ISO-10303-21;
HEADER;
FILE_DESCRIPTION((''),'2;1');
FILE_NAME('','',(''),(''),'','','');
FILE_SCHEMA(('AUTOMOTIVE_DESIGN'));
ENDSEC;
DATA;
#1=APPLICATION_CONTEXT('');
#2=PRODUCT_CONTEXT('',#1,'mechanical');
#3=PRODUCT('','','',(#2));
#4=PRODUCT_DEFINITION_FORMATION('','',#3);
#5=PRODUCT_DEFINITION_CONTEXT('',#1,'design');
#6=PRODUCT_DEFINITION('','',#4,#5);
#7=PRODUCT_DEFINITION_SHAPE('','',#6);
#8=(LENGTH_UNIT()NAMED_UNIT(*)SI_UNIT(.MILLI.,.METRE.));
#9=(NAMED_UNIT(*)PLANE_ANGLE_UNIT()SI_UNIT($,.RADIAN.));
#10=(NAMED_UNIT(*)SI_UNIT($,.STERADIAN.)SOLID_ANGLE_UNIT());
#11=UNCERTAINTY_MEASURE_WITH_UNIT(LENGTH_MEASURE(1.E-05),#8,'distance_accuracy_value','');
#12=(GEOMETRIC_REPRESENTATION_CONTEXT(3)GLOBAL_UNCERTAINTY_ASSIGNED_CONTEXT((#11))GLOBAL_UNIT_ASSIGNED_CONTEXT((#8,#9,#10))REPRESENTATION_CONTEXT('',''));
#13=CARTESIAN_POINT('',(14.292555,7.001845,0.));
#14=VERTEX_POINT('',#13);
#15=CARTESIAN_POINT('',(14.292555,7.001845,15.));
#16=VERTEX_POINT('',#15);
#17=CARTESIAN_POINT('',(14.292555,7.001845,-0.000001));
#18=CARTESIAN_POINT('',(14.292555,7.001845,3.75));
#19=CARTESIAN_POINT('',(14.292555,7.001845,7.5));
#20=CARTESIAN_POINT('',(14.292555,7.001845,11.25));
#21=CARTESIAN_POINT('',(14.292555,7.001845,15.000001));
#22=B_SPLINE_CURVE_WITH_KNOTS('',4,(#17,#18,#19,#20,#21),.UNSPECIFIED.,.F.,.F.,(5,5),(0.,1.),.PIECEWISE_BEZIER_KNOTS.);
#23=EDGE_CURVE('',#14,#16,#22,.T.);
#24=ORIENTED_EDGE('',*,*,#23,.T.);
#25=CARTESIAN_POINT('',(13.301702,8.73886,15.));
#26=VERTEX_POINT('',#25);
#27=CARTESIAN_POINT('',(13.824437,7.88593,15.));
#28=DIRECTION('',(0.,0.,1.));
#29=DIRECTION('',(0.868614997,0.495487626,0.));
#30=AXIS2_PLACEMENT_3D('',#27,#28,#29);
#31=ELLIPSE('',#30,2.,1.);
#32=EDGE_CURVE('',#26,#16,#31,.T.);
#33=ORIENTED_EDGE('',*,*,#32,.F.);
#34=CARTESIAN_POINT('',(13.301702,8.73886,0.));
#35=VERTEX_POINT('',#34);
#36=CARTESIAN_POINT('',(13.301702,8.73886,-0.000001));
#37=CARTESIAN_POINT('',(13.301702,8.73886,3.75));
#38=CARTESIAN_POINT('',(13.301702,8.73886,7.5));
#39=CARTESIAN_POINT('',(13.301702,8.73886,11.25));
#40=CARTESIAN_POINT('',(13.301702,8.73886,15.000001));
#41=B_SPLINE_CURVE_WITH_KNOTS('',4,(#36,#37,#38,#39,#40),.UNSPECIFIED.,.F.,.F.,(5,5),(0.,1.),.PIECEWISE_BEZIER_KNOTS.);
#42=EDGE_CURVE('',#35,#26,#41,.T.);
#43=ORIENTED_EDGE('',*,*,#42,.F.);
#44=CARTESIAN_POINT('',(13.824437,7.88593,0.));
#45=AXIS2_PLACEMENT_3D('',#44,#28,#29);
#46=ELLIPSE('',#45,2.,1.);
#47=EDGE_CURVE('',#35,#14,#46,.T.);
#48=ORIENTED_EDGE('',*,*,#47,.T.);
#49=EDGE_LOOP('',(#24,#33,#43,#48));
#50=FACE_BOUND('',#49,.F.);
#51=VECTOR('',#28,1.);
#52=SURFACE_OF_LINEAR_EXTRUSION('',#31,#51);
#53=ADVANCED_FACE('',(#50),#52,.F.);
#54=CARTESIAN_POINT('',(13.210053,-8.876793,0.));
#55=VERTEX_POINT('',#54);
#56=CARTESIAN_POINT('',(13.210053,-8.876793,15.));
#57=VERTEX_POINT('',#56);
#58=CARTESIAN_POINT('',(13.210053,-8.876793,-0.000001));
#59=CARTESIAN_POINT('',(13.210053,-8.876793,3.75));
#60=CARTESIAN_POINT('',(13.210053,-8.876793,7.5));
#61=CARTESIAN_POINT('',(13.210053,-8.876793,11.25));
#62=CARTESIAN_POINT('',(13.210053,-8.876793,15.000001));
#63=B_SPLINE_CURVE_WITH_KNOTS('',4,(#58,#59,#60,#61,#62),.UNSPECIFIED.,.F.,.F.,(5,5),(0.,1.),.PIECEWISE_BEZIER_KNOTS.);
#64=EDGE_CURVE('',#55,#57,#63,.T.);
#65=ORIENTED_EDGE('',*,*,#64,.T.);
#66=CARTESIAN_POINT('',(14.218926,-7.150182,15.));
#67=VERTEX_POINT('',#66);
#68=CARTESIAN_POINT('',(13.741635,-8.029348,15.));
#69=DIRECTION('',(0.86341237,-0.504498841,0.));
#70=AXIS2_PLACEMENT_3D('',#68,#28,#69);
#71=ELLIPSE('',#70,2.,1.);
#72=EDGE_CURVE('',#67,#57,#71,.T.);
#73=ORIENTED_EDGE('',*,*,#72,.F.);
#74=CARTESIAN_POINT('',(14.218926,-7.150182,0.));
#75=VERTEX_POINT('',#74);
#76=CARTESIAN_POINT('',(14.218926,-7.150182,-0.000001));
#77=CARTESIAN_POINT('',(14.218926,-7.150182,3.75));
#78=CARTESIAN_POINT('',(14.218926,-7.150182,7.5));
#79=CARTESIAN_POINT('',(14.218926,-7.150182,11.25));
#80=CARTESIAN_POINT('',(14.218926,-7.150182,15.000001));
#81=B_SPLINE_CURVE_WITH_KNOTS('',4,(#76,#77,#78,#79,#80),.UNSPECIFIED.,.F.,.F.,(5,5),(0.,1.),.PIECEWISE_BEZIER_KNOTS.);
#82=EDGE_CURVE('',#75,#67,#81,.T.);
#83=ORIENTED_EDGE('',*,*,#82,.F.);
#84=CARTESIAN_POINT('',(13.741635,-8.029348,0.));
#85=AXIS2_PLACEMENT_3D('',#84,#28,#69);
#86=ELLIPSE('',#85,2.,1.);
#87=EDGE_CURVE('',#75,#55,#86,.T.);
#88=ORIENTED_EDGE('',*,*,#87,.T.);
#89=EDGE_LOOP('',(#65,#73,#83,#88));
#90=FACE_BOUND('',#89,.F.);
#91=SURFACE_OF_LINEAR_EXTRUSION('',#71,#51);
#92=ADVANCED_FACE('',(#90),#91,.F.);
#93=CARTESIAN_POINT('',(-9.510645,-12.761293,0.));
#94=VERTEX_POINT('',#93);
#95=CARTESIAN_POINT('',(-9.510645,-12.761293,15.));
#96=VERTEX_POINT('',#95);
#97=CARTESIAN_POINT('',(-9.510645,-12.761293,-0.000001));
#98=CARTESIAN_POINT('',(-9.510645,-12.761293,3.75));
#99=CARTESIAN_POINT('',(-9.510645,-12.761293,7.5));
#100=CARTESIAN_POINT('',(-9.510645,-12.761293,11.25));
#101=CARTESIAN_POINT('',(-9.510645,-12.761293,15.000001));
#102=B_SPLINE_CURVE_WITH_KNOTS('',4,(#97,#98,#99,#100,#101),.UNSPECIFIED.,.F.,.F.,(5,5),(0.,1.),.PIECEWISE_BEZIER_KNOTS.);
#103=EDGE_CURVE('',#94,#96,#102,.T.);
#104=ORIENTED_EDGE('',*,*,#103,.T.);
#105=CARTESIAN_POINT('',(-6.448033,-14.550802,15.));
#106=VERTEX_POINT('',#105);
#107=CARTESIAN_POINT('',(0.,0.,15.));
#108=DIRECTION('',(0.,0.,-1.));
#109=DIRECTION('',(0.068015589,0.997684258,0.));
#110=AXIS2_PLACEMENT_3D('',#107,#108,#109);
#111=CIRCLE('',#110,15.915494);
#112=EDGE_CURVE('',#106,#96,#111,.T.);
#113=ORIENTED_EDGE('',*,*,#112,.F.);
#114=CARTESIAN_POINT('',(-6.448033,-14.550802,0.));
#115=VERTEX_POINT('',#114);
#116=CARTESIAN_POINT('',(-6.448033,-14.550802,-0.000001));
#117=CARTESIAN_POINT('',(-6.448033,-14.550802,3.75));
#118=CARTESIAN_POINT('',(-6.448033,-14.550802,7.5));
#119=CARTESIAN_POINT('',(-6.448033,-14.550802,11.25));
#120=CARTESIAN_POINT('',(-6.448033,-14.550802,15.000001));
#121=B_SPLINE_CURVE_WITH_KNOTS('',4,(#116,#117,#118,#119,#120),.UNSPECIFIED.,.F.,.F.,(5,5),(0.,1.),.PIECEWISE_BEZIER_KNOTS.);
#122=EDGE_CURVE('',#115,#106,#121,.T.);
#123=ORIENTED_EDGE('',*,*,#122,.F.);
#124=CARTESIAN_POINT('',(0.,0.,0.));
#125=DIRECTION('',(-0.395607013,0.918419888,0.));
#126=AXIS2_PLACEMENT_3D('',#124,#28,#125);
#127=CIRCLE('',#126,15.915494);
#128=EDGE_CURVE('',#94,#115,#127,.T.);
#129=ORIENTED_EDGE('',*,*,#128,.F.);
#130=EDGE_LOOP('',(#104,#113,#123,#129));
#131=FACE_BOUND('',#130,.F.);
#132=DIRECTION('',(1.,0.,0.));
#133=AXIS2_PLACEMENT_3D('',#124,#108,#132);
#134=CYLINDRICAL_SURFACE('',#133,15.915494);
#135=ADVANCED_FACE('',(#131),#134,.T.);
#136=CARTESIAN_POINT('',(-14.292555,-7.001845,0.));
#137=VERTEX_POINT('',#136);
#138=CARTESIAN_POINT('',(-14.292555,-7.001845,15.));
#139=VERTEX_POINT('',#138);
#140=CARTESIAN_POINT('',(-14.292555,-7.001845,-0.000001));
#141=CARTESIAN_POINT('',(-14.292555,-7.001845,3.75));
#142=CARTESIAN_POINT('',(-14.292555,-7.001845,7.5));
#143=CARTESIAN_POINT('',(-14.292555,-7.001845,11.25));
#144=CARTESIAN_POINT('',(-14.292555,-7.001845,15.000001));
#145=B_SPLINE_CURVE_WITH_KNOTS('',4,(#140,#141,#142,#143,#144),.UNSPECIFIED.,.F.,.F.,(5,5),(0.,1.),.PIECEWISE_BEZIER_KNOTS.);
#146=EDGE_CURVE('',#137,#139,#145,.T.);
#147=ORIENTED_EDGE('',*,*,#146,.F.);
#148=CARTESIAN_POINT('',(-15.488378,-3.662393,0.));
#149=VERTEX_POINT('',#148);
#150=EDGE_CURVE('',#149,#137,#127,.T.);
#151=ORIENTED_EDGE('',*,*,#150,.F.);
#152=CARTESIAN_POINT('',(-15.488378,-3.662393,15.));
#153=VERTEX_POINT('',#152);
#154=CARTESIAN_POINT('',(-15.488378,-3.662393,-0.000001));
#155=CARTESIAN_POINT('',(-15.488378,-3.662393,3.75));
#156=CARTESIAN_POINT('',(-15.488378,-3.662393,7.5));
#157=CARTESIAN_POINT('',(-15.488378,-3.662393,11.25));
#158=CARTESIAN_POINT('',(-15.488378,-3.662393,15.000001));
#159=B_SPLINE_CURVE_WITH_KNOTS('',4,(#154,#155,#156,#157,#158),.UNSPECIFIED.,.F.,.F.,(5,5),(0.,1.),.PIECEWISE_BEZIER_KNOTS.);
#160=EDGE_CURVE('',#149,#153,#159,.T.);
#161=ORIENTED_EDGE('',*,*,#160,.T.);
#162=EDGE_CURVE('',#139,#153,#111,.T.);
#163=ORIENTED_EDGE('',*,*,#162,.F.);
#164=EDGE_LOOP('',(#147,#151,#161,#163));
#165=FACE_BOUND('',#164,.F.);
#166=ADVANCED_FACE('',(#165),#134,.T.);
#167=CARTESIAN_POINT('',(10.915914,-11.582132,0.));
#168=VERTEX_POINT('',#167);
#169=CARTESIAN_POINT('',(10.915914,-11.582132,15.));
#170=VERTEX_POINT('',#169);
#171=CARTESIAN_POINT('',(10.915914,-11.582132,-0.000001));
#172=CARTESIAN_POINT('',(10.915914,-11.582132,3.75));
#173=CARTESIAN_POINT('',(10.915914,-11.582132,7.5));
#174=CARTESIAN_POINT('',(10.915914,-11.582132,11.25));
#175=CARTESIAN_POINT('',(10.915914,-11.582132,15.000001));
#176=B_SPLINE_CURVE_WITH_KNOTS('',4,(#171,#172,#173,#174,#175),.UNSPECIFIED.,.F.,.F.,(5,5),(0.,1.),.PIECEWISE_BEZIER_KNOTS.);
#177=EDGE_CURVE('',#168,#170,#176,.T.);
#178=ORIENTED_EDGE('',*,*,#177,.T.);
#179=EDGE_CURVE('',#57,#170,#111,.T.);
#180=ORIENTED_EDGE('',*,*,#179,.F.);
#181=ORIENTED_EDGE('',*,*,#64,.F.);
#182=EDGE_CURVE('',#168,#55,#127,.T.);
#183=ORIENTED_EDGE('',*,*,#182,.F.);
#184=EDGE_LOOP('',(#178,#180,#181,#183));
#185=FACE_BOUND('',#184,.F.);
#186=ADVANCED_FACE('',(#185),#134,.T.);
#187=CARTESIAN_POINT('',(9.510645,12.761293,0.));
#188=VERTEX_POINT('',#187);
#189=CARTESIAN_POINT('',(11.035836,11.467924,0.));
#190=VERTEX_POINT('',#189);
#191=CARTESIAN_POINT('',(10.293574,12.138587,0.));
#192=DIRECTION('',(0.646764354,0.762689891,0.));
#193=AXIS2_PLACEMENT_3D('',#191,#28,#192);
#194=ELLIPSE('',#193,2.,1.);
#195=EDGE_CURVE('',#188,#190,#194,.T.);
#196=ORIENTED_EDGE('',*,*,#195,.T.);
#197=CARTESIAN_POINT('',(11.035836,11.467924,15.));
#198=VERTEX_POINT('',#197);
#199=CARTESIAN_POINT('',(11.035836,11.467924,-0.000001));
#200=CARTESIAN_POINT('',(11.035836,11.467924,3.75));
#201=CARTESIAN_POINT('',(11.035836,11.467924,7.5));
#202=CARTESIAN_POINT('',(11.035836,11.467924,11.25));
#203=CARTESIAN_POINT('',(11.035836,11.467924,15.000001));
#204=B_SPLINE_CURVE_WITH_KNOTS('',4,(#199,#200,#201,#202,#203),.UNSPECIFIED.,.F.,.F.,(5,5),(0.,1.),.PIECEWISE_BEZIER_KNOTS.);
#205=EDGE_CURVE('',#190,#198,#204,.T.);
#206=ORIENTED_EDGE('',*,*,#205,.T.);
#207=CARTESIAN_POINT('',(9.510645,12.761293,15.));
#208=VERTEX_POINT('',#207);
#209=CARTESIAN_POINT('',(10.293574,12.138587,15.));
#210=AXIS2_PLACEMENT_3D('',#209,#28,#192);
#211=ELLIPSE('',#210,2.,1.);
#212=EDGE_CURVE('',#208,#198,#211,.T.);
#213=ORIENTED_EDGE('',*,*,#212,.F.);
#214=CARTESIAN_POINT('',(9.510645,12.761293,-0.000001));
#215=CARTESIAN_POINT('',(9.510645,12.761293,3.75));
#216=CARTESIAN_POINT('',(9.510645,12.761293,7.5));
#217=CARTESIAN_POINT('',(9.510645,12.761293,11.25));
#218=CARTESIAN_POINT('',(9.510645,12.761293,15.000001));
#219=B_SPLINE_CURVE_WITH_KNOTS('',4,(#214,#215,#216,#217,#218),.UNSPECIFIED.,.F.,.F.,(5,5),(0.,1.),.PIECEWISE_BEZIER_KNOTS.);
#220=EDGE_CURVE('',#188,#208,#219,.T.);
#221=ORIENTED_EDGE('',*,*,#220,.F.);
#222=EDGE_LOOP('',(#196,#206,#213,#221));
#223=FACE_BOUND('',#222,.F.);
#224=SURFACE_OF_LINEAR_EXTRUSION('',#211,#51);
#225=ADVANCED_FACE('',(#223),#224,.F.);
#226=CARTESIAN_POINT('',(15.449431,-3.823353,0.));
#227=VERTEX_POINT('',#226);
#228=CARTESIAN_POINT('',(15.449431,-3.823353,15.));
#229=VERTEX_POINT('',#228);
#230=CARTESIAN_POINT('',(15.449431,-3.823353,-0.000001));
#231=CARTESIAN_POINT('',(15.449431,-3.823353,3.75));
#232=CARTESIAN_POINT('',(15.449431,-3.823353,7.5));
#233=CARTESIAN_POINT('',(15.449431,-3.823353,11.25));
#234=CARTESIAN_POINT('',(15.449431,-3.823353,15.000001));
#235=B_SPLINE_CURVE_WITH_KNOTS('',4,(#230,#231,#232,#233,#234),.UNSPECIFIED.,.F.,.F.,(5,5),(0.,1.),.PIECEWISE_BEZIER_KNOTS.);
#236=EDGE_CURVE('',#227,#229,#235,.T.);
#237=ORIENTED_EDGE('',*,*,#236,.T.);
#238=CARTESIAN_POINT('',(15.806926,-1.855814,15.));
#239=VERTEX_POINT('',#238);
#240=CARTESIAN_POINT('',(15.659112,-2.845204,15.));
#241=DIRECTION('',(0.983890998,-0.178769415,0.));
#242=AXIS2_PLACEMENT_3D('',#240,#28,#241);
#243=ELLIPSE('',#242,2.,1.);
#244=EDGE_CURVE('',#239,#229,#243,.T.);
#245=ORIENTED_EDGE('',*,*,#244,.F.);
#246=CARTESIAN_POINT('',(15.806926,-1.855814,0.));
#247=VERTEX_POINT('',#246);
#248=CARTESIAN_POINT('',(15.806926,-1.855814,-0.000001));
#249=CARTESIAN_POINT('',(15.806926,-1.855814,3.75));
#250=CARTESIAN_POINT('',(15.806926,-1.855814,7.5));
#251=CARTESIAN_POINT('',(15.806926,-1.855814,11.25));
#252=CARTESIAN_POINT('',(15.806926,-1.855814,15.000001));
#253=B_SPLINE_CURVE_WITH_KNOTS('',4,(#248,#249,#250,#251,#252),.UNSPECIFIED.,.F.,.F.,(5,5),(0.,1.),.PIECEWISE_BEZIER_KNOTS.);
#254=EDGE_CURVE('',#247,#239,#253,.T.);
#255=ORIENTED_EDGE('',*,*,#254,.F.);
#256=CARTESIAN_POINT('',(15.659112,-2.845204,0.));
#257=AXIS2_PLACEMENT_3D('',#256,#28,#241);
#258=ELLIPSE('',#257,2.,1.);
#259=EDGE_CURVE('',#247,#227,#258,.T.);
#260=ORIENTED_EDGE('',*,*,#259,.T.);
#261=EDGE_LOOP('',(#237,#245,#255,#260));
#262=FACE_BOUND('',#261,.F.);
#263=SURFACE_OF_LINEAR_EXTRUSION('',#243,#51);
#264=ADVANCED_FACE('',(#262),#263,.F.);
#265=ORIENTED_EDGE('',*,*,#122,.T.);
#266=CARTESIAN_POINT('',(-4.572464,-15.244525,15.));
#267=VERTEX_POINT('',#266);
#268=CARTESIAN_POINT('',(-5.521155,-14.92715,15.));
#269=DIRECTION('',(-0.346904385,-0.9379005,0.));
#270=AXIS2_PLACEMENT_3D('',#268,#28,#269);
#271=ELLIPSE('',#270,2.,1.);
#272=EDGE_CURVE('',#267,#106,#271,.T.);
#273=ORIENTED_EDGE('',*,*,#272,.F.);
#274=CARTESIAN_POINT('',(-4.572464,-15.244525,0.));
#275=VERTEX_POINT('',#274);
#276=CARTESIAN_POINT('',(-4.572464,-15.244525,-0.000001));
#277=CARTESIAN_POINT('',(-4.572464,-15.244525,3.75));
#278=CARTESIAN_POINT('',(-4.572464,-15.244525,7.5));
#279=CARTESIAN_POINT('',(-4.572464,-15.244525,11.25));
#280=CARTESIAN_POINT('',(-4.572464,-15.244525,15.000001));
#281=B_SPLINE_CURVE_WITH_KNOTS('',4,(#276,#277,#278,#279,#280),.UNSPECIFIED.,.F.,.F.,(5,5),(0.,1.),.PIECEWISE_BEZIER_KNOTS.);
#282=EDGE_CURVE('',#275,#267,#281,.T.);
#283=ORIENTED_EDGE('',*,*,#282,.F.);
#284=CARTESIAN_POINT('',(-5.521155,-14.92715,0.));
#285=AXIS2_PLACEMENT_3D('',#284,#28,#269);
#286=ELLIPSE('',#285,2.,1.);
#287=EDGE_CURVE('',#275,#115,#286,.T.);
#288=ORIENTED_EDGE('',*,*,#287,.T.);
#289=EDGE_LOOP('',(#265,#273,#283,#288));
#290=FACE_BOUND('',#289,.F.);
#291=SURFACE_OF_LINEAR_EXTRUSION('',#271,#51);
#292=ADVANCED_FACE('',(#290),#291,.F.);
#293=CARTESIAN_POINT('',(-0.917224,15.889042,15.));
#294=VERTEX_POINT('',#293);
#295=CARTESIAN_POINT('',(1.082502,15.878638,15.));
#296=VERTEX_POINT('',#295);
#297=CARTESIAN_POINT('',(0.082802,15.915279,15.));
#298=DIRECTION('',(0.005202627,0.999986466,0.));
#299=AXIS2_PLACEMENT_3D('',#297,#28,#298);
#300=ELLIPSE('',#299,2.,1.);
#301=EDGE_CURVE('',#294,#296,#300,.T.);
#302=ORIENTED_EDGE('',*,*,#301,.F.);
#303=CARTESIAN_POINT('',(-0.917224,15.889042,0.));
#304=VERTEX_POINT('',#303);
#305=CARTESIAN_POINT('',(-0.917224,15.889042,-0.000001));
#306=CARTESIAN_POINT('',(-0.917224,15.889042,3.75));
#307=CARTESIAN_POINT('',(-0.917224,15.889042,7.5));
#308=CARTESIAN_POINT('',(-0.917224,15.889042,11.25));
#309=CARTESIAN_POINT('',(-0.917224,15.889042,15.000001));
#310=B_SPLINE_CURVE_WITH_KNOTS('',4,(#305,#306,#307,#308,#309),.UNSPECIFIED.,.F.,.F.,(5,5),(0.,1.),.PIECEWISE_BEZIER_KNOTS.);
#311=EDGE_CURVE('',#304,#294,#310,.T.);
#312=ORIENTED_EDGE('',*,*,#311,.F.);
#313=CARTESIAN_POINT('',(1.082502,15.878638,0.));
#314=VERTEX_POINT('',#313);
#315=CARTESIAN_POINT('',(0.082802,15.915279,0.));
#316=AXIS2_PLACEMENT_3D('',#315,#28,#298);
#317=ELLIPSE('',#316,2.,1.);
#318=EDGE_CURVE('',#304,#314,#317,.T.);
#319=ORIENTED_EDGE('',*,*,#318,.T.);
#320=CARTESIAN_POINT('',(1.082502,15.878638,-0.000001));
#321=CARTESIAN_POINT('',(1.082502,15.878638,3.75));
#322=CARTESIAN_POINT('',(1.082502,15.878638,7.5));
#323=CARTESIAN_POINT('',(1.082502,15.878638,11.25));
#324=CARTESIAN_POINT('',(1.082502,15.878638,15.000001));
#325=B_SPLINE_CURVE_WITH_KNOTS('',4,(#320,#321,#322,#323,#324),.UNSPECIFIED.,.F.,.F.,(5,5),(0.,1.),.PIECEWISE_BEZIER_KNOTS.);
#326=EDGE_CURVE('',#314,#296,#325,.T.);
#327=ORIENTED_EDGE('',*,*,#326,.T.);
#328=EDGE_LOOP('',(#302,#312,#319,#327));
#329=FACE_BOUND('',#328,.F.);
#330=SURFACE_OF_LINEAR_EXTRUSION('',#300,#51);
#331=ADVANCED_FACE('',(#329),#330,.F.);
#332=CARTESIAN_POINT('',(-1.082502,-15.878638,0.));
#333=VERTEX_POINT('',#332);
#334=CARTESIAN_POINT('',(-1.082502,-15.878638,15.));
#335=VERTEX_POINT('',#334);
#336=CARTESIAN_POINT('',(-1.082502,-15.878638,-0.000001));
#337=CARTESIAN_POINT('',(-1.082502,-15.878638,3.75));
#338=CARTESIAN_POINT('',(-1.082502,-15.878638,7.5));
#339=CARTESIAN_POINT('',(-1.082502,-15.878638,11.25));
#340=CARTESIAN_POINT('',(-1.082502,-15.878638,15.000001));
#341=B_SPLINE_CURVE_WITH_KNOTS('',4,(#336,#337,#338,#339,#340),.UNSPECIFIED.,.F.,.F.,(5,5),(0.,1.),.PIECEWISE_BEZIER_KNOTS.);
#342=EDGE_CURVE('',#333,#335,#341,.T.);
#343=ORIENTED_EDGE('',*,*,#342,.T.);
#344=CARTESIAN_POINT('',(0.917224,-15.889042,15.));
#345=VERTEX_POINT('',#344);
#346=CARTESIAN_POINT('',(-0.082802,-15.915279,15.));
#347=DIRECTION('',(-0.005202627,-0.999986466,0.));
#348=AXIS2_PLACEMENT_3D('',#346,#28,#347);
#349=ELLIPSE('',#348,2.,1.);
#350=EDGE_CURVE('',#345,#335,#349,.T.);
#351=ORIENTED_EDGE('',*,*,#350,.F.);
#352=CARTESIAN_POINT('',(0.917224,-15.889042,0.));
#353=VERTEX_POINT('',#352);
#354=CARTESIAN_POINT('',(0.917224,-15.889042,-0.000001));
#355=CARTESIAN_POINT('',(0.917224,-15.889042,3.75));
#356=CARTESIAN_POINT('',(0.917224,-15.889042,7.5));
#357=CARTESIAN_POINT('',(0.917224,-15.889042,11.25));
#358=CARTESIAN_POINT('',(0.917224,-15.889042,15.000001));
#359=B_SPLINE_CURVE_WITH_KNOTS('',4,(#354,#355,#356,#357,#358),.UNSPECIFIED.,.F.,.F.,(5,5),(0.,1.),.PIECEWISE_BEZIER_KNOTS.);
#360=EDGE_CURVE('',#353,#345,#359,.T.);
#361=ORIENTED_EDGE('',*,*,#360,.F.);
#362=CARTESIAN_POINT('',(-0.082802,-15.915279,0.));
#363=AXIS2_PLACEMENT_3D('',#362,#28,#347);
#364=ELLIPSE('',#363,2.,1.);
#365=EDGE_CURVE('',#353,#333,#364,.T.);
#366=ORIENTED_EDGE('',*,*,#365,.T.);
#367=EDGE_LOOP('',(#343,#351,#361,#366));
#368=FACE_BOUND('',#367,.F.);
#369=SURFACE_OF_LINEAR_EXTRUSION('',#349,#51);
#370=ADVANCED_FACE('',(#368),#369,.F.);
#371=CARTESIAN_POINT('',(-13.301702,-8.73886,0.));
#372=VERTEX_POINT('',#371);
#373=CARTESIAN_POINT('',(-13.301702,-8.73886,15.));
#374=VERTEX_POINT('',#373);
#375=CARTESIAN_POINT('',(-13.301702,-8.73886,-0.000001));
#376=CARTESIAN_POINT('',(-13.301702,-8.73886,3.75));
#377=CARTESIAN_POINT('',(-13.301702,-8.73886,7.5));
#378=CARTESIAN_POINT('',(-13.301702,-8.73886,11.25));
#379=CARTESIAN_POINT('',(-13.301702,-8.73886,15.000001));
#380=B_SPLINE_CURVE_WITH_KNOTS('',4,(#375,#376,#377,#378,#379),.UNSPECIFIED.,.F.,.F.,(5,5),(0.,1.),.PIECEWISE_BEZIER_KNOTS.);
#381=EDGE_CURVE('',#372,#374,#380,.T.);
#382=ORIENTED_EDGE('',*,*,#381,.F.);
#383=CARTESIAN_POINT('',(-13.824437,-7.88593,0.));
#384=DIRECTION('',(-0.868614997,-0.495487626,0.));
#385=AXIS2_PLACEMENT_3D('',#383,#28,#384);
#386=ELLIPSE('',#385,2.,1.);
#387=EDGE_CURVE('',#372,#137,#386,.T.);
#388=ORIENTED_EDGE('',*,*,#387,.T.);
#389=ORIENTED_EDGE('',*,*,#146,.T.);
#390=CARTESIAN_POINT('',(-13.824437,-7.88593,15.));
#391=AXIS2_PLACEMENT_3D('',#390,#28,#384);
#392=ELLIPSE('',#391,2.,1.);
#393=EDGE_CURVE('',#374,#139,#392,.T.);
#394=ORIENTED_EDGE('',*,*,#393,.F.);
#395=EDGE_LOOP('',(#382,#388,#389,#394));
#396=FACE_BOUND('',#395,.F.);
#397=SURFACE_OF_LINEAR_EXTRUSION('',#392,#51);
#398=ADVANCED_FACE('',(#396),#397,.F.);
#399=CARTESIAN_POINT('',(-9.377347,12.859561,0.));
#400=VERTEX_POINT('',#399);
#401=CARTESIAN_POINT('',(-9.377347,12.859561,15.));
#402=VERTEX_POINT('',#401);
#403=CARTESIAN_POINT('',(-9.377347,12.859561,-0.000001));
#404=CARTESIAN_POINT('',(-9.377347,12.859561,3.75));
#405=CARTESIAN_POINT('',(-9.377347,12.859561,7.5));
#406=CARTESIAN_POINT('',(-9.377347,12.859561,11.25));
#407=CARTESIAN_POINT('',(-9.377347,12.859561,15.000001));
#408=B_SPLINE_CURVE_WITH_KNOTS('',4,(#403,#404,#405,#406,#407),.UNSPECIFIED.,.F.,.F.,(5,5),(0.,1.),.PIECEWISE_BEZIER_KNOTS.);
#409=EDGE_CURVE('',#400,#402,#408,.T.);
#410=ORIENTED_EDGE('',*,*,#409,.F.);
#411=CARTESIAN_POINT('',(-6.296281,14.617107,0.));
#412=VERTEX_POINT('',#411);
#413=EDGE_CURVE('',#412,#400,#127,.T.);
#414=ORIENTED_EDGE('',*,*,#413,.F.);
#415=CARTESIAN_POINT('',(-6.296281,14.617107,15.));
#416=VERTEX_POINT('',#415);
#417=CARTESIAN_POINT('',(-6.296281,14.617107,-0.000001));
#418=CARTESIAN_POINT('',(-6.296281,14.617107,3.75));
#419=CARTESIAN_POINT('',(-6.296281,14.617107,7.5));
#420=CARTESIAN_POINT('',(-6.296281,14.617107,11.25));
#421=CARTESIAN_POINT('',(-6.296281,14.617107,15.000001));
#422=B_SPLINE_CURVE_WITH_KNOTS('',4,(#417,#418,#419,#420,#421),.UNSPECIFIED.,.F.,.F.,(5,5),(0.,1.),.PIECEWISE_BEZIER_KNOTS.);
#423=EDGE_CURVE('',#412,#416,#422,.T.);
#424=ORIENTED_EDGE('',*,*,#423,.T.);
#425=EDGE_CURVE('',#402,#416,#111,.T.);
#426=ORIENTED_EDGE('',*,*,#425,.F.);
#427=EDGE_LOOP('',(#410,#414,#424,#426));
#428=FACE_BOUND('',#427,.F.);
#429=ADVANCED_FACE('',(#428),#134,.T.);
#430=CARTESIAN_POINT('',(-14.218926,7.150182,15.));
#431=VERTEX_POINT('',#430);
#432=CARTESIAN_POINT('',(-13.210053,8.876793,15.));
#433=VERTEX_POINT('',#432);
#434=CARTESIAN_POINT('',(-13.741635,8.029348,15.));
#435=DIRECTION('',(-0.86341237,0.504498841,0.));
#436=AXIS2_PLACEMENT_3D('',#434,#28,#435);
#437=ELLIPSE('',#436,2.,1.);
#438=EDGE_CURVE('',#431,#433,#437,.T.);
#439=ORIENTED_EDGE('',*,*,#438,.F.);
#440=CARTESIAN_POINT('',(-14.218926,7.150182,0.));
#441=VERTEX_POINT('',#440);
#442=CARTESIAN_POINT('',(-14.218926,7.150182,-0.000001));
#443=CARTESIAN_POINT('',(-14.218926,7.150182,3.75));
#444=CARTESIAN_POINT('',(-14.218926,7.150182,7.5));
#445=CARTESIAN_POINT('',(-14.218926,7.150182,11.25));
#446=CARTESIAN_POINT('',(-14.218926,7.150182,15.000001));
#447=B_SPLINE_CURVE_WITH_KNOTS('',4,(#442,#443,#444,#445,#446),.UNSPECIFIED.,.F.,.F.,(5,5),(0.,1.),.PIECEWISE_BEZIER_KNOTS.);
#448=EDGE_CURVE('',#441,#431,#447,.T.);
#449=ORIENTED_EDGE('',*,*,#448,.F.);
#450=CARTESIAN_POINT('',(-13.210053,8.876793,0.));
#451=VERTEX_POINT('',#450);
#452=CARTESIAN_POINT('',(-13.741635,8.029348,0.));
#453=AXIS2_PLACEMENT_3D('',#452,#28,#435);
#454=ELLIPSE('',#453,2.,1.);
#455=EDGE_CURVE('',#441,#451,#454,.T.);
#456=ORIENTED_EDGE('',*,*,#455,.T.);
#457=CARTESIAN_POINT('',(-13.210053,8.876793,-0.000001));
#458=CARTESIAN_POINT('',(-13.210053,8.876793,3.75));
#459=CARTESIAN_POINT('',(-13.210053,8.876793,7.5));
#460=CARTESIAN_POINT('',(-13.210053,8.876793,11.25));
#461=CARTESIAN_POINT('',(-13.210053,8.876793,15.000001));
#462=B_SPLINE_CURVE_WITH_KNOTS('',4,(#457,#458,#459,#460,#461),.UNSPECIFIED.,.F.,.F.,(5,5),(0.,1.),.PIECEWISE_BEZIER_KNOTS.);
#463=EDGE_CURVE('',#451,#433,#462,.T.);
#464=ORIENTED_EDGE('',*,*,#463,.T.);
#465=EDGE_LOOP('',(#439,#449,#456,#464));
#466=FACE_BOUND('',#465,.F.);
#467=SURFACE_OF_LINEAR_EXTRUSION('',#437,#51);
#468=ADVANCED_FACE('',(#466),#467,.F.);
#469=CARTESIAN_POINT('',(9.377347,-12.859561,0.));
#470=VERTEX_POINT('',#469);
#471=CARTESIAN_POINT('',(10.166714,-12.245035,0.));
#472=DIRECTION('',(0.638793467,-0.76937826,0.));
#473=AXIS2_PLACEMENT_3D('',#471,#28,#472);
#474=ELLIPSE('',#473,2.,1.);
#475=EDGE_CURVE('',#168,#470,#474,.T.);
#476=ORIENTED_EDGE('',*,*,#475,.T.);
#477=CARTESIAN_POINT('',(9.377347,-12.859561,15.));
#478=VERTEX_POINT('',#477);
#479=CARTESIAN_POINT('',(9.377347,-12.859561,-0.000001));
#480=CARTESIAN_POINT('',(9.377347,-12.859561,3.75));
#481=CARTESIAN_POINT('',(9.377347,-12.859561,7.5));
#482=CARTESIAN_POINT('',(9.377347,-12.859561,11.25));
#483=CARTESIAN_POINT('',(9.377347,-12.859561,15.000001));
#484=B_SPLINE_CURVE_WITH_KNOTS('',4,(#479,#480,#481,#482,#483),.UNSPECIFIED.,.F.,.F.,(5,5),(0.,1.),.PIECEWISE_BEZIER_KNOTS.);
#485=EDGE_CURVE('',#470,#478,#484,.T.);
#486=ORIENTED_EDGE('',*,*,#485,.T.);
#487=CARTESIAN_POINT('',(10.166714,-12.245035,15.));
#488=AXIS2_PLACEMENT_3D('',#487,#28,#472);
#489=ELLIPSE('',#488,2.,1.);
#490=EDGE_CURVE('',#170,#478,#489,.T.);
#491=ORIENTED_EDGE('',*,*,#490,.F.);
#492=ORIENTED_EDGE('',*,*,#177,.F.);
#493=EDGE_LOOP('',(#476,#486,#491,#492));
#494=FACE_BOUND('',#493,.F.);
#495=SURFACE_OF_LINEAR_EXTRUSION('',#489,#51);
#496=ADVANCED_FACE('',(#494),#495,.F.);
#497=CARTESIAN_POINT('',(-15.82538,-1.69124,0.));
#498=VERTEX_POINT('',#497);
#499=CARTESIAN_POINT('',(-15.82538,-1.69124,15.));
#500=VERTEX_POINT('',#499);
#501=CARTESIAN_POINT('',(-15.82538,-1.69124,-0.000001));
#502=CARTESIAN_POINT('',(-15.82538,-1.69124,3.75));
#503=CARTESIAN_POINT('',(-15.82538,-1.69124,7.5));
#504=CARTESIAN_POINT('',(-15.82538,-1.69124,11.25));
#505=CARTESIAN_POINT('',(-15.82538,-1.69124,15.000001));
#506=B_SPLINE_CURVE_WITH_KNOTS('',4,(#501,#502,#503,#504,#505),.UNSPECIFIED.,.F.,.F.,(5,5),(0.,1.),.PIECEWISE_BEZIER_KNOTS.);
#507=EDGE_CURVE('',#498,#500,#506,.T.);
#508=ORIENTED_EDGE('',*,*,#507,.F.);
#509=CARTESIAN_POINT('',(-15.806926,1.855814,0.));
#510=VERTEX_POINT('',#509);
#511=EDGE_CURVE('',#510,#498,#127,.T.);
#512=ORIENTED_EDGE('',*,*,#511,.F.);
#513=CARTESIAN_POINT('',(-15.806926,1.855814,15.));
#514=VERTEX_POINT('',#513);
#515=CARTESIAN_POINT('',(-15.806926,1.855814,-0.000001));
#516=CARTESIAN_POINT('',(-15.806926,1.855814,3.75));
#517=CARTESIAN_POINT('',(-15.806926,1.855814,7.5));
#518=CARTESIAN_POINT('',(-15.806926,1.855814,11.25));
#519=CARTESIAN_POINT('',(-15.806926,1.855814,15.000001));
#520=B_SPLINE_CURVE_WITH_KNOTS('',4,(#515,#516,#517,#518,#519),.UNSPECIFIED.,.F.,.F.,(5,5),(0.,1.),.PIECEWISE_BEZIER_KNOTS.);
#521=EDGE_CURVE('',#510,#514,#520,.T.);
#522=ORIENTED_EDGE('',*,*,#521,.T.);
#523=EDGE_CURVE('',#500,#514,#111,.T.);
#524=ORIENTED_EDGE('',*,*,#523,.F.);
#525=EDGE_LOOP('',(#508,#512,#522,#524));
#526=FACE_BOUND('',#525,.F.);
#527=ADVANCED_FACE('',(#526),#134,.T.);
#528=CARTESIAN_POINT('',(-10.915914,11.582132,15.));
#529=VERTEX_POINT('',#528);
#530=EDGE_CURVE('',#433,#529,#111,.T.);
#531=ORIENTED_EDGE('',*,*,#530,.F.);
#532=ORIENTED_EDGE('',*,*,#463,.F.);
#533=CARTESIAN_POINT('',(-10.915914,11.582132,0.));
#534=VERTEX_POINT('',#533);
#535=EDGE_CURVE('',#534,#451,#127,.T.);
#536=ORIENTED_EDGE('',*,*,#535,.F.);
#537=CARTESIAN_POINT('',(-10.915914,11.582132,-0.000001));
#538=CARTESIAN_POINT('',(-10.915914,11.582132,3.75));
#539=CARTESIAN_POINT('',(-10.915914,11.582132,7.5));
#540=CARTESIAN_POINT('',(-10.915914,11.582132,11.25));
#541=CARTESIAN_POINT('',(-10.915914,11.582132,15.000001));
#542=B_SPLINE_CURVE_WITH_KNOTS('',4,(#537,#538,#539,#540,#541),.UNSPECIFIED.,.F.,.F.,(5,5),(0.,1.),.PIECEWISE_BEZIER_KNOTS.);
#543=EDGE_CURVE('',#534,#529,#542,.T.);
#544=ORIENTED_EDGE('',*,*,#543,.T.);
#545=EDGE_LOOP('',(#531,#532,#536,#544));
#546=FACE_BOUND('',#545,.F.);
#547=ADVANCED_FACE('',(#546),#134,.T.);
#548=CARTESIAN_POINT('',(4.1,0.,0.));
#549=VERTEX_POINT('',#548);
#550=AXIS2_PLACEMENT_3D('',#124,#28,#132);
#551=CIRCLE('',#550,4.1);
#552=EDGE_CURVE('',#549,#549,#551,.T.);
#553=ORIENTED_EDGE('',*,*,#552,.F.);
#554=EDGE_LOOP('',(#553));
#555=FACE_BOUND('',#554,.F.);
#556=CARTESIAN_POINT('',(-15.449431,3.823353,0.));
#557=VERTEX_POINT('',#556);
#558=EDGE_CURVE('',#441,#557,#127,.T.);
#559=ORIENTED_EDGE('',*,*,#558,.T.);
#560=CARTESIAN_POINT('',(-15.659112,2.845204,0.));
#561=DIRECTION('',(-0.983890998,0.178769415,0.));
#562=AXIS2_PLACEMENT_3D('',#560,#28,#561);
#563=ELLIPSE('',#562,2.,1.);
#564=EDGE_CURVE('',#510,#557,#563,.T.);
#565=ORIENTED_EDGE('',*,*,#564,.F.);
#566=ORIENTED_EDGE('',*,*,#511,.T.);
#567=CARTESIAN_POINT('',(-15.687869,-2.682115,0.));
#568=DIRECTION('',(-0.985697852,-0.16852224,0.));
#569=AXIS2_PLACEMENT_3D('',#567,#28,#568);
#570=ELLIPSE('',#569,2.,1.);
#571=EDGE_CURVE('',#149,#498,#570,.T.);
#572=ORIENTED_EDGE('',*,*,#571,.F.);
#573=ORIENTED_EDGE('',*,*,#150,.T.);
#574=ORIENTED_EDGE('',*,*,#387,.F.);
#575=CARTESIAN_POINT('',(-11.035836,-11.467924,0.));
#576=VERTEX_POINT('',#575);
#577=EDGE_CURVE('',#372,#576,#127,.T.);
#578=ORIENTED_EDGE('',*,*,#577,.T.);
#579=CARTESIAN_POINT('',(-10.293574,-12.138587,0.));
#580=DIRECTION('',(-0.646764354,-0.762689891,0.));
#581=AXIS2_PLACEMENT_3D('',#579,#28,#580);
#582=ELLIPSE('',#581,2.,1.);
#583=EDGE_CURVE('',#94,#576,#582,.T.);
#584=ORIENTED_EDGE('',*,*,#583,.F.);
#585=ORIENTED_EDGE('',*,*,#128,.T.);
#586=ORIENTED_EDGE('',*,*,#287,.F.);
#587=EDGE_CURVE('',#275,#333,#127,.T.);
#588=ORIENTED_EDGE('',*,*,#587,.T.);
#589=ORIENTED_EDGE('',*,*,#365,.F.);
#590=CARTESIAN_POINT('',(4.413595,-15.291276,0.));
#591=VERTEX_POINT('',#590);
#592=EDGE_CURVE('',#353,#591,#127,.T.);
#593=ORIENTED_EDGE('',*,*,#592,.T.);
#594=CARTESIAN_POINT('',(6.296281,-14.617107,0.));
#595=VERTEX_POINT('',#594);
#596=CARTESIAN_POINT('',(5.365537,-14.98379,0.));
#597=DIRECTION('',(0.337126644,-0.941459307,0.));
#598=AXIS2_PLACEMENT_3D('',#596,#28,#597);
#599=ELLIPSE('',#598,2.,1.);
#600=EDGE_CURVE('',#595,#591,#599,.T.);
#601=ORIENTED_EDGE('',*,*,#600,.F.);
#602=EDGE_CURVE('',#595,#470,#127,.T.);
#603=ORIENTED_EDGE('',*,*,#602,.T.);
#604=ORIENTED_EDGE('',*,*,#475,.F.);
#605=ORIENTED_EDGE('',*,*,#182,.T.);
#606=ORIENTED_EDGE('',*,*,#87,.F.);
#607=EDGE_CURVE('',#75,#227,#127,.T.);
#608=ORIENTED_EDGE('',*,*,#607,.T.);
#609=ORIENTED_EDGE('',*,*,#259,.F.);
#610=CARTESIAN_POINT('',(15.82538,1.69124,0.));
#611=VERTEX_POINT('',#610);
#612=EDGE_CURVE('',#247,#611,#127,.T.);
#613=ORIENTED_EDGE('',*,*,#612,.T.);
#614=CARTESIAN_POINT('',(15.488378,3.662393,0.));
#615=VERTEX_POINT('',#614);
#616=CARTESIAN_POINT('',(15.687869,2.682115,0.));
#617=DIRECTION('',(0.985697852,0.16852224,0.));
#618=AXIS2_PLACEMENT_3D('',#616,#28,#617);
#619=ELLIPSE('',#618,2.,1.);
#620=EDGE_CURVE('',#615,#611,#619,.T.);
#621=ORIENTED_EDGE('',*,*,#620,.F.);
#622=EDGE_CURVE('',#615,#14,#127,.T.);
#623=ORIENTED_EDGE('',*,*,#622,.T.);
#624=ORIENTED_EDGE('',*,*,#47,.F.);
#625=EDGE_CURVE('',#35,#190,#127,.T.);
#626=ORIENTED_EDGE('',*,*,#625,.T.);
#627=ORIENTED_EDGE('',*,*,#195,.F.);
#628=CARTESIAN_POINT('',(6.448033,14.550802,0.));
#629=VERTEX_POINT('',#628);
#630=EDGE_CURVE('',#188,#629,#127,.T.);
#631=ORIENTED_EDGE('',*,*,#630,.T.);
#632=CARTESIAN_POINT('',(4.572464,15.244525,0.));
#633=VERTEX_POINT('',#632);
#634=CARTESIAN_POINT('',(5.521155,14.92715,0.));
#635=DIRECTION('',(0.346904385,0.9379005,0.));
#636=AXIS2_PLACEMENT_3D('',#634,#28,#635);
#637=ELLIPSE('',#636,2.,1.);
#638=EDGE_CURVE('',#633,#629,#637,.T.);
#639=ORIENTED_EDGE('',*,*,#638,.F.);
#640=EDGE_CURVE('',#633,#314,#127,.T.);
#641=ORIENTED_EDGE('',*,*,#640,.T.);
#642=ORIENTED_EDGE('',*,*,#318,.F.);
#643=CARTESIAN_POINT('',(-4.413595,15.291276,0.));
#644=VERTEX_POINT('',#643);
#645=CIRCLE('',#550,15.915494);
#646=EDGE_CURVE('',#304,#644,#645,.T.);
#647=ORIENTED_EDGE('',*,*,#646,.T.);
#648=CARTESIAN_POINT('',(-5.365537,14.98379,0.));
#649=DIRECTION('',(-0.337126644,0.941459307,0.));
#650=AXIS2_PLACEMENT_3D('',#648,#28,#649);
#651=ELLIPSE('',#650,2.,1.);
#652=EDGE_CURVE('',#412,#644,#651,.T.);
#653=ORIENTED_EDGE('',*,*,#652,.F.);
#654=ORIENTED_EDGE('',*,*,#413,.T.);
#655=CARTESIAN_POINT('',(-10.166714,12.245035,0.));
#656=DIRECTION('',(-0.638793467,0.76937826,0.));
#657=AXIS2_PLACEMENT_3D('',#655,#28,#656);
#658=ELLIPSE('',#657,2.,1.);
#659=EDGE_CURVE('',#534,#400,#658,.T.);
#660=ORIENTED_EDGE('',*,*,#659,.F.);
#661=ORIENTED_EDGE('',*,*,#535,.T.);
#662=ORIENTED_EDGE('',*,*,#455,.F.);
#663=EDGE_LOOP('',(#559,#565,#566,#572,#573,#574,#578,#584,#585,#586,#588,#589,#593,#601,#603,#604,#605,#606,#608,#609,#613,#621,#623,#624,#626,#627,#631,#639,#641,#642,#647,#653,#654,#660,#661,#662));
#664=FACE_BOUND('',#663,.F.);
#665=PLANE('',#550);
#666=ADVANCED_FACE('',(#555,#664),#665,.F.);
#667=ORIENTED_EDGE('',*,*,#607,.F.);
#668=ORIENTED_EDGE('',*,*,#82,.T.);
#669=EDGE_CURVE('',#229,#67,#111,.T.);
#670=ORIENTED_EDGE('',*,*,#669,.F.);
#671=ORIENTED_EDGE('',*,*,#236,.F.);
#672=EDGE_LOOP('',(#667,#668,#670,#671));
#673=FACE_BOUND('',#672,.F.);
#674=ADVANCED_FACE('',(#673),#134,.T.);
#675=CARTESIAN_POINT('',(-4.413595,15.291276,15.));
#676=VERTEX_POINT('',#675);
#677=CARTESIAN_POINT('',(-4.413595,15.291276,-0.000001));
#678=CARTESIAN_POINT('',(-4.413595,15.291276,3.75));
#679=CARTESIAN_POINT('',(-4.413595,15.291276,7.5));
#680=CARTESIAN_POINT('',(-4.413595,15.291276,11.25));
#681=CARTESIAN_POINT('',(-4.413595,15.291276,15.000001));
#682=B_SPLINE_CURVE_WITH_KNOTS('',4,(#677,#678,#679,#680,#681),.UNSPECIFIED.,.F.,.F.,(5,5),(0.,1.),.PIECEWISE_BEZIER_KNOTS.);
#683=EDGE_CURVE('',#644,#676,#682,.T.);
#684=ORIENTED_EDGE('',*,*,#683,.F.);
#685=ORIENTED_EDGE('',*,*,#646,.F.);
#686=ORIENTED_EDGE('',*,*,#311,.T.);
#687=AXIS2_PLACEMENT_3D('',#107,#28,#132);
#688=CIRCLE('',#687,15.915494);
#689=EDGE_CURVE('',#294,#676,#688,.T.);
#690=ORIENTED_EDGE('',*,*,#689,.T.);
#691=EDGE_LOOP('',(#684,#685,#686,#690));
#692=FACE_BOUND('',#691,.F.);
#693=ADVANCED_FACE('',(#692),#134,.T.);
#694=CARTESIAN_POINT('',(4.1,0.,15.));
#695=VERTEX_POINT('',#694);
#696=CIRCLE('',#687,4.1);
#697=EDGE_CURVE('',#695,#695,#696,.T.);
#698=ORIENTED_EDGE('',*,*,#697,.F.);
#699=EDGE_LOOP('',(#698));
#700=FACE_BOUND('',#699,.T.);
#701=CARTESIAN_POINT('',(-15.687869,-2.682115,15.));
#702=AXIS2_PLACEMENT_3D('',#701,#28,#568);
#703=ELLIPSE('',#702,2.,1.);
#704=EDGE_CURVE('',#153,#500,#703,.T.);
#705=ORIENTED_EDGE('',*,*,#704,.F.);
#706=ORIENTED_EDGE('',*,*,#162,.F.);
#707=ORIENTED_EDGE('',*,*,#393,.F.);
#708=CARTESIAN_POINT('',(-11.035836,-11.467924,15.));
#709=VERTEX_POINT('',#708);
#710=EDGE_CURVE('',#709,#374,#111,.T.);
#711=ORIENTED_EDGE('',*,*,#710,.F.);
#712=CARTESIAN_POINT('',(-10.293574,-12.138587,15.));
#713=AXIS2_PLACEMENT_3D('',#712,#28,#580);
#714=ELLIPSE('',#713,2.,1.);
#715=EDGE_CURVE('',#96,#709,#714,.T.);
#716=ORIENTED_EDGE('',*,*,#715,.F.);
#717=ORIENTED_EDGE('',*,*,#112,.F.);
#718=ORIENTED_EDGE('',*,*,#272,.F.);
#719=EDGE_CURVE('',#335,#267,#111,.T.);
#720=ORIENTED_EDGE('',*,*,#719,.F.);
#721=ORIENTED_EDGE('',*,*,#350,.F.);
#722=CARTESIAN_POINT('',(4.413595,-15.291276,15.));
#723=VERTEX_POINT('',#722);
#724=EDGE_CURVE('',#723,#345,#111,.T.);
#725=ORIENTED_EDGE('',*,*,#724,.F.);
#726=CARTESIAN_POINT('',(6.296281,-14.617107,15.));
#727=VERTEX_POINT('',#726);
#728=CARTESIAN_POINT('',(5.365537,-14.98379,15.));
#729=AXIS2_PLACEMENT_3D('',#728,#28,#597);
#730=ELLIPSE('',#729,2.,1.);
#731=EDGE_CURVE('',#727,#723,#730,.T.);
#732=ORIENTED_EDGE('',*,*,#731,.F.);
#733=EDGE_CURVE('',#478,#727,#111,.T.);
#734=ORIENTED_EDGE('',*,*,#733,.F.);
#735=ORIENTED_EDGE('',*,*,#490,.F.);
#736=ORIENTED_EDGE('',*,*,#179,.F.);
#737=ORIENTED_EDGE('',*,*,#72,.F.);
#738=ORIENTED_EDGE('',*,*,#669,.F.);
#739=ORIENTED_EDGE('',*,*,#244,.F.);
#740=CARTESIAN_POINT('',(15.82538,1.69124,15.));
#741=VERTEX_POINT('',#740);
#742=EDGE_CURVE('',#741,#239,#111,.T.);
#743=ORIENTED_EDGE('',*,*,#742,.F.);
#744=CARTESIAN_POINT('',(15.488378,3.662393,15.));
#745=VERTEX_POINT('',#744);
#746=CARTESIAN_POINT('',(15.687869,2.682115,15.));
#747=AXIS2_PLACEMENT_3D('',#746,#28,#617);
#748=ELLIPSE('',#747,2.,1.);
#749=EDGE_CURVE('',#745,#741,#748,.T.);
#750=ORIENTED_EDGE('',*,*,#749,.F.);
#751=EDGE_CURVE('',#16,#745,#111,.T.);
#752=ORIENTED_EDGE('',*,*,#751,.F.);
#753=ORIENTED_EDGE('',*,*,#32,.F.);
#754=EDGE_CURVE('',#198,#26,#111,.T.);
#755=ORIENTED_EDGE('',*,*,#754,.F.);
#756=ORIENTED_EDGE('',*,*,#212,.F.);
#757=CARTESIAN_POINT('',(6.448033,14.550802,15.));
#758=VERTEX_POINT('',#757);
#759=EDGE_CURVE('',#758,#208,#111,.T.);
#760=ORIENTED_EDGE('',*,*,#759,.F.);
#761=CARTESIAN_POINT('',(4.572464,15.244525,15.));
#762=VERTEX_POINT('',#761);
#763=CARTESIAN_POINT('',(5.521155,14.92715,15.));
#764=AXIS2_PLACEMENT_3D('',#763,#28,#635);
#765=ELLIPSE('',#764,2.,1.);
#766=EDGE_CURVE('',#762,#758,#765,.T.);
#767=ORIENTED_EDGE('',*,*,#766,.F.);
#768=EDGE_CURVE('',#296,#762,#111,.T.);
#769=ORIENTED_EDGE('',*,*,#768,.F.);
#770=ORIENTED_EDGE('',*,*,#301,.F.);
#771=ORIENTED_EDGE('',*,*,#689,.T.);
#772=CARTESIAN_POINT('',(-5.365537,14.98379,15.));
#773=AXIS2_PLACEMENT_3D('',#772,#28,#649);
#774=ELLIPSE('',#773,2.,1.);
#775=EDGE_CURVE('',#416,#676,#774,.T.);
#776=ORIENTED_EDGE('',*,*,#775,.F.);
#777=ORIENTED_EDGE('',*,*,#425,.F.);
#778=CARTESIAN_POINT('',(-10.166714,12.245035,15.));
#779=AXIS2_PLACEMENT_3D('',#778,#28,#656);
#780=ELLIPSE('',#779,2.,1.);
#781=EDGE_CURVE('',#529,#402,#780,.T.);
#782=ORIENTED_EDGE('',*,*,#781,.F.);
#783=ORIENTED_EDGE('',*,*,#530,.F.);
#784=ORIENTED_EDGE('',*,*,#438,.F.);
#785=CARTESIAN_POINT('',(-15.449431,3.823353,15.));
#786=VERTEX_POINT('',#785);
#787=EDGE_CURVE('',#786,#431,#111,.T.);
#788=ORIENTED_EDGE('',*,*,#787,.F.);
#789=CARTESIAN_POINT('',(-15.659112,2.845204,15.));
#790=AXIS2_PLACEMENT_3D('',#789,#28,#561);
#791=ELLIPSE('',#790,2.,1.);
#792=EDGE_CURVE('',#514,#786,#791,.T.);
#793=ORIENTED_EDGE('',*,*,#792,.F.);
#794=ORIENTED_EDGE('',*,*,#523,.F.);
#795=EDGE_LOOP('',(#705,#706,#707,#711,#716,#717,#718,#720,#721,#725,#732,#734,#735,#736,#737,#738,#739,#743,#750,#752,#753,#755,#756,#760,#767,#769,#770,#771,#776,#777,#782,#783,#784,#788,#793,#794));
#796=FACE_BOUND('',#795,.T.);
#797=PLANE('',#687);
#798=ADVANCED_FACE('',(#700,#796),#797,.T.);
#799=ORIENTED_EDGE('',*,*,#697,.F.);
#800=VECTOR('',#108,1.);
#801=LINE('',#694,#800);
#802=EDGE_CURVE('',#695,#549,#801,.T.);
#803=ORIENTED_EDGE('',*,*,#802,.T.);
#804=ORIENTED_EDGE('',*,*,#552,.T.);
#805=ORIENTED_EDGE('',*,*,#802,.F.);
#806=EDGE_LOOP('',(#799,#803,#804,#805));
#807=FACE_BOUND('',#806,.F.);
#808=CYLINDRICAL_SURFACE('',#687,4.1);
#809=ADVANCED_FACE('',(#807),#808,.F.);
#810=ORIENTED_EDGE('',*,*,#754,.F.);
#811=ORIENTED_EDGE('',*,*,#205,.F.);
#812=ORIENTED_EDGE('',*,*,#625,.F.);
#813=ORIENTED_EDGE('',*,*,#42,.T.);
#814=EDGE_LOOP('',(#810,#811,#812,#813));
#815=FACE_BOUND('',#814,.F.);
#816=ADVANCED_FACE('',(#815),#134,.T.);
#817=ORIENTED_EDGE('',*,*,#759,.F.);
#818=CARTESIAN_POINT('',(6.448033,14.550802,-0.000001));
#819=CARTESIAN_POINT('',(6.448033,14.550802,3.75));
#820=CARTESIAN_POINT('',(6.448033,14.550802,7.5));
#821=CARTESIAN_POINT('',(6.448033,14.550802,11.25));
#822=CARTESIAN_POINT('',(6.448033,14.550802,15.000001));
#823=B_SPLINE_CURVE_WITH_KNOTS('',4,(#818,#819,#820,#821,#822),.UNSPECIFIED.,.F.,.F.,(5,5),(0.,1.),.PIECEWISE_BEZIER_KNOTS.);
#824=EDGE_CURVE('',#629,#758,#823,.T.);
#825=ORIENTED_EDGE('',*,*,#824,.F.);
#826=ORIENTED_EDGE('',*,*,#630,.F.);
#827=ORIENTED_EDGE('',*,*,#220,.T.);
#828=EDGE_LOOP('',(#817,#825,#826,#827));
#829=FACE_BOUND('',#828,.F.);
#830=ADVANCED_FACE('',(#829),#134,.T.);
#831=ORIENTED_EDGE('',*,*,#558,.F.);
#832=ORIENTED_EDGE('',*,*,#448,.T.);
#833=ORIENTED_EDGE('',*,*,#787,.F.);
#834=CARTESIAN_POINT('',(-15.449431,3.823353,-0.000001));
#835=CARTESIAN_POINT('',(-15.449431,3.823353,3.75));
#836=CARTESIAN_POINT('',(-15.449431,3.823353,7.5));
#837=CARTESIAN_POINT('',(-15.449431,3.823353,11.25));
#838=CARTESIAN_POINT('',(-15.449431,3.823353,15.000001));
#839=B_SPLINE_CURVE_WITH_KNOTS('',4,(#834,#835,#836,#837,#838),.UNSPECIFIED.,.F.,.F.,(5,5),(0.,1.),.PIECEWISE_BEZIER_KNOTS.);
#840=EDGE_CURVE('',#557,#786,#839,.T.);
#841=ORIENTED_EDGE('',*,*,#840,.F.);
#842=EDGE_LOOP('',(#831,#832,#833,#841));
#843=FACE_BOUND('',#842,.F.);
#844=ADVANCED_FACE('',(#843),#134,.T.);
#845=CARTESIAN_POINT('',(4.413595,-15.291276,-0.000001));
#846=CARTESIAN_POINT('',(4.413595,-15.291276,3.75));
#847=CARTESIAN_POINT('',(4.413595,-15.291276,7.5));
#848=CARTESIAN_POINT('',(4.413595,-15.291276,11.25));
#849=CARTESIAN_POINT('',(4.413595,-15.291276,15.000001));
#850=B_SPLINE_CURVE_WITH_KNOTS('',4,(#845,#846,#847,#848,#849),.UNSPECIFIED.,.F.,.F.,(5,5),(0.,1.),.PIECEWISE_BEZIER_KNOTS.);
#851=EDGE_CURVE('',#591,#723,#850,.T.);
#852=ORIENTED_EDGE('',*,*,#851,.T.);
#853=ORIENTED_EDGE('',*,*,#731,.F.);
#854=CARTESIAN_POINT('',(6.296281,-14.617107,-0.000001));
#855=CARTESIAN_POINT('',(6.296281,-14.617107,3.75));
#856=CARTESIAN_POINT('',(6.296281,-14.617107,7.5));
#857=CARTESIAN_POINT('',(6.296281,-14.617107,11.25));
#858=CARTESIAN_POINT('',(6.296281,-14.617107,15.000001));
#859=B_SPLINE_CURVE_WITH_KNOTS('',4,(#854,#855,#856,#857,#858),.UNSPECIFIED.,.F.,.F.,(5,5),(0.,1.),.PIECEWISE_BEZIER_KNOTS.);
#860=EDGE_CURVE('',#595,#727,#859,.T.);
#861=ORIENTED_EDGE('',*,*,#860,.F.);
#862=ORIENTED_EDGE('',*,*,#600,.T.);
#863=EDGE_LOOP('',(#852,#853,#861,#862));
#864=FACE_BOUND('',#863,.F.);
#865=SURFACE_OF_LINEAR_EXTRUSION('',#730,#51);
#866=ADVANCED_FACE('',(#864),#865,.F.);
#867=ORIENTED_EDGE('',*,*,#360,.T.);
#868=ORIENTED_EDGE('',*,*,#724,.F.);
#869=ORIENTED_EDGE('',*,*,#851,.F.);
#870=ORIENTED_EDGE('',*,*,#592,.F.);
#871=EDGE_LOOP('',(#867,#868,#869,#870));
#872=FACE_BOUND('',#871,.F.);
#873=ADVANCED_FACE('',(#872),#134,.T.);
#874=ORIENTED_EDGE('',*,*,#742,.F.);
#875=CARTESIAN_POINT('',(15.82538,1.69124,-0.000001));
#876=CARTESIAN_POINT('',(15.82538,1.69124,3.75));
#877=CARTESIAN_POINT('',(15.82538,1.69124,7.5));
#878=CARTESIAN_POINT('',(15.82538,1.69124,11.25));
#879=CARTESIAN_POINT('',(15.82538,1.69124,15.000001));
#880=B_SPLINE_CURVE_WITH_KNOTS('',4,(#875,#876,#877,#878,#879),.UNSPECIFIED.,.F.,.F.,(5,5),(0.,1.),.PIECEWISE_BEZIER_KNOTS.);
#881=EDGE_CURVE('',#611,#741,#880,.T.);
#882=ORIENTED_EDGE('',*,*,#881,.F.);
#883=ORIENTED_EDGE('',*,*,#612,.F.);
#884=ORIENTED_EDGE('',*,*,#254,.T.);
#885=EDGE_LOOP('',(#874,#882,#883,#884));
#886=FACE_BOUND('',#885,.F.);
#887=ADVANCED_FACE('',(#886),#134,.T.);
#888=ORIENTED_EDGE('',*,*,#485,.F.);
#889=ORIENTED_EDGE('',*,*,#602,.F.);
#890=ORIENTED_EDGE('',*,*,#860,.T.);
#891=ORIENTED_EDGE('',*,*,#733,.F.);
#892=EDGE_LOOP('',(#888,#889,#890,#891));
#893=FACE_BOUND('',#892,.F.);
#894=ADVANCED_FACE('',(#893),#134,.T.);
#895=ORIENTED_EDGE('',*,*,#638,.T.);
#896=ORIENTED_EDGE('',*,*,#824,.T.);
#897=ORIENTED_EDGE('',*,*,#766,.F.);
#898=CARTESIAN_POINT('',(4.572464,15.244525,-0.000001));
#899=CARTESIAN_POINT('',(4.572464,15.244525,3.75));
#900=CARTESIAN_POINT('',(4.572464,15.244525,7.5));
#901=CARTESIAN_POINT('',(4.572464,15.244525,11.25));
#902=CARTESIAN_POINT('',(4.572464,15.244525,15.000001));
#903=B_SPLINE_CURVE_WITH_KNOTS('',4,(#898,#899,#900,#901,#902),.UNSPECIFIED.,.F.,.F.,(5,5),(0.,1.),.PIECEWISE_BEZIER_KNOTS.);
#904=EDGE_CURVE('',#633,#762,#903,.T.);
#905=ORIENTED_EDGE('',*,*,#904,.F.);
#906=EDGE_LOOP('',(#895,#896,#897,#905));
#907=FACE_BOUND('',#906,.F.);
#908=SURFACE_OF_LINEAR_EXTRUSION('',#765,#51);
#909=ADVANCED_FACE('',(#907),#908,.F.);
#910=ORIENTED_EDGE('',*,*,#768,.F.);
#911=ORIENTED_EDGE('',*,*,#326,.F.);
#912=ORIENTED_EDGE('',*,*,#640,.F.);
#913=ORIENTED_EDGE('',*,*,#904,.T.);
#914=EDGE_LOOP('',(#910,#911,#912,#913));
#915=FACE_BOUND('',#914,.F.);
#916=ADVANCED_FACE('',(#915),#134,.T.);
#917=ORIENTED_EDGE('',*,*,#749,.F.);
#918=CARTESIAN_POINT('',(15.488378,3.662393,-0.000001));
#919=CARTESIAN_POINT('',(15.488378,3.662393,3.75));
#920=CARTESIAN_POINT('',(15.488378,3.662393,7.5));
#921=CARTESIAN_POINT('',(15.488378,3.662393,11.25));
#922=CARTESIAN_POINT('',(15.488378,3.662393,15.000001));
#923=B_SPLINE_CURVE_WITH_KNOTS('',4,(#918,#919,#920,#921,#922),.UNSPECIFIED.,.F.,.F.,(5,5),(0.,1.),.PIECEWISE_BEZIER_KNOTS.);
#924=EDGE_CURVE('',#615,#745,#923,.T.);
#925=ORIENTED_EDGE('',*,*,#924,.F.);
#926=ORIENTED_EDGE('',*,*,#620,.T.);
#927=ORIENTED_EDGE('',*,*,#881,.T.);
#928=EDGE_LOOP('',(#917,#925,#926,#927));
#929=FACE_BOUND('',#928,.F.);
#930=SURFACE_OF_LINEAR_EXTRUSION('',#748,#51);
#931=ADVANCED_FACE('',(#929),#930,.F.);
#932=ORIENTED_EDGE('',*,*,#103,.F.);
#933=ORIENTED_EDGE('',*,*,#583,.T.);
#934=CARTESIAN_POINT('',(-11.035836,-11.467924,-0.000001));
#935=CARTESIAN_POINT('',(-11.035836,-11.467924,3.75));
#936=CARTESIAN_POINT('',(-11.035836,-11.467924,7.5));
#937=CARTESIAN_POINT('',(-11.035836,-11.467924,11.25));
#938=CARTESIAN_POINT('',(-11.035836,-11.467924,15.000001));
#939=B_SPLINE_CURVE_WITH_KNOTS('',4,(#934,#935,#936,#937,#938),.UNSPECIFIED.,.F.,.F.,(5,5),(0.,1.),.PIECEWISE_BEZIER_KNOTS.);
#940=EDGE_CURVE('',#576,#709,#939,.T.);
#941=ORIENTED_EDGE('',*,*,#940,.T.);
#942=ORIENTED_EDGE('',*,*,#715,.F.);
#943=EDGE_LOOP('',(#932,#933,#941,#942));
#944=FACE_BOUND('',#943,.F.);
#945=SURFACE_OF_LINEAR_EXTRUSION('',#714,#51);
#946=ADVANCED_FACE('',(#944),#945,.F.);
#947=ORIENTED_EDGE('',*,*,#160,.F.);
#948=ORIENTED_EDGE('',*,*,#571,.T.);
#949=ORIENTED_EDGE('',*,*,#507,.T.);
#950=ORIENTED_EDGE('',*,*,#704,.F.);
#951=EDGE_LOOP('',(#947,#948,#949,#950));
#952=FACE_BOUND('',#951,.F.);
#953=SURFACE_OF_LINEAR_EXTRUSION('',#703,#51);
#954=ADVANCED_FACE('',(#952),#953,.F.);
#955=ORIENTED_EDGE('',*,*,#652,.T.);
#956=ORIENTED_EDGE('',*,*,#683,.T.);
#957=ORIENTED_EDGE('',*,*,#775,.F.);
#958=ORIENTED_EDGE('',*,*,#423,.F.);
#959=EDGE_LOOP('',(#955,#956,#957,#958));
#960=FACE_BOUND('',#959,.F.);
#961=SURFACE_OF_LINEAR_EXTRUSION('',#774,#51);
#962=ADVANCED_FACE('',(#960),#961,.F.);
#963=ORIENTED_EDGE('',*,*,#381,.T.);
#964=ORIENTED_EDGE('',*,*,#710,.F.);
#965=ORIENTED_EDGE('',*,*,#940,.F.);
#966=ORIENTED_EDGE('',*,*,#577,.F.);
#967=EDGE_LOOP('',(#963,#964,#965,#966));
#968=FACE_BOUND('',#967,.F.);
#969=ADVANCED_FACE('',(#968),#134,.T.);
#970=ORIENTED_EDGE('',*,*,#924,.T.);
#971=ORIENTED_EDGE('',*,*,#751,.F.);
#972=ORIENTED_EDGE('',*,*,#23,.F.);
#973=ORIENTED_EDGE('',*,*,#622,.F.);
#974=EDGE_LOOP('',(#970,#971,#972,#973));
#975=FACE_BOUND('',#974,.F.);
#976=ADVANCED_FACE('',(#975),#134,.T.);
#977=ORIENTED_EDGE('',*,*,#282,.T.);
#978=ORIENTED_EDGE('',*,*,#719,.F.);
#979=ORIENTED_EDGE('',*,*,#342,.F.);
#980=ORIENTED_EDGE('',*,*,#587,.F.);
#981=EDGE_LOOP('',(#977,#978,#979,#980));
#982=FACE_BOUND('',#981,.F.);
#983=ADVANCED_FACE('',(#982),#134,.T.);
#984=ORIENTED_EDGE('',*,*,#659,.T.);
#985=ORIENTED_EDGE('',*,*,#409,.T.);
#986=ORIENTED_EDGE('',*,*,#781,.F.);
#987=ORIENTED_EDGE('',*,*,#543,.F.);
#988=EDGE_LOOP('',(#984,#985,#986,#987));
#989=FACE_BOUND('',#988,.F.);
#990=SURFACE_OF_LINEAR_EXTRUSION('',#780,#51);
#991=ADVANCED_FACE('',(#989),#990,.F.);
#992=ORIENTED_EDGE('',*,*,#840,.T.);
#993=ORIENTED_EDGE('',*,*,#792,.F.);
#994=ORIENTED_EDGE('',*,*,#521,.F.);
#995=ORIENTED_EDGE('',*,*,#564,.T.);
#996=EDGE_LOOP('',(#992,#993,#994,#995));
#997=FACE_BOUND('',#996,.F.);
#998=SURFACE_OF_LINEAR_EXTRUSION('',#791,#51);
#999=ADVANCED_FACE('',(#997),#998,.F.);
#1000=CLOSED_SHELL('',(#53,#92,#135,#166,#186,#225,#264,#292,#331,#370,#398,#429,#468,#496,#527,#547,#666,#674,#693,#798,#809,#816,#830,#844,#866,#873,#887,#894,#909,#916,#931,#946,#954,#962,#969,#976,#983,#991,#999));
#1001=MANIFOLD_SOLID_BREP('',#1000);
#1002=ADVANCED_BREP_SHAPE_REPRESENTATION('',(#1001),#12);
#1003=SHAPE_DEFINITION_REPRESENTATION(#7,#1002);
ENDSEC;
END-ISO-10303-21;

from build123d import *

# Parameters (mm, degrees)
SKETCH_1_R               = 15.91549431
EXTRUDE_1_DEPTH          = 15
SKETCH_2_R               = 4.1
CUT_EXTRUDE_5_DEPTH      = 15
SKETCH_5_RX              = 2
SKETCH_5_RY              = 1
CUT_EXTRUDE_6_DEPTH      = 15
PATTERN_CIRCULAR_2_COUNT = 18


with BuildPart() as part:
    # Эскиз1 → Бобышка-Вытянуть1 (new body)
    with BuildSketch(Plane.XY):
        Circle(SKETCH_1_R)
    extrude(amount=EXTRUDE_1_DEPTH)

    # Эскиз2 → Вырез-Вытянуть5 (cut)
    with BuildSketch(Plane.XY.offset(15)):
        Circle(SKETCH_2_R)
    extrude(amount=-CUT_EXTRUDE_5_DEPTH, mode=Mode.SUBTRACT)

    # Эскиз5 → Вырез-Вытянуть6 (cut)
    with BuildSketch(Plane.XY.offset(15)):
        with Locations(Location((0.082802385, 15.915278914), (0, 0, 89.70191007))):
            Ellipse(SKETCH_5_RX, SKETCH_5_RY)
    cut_extrude_6 = extrude(amount=-CUT_EXTRUDE_6_DEPTH, mode=Mode.SUBTRACT)

    # Круговой массив2: Вырез-Вытянуть6 ×18 about axis
    pattern_circular_2_axis = Axis((0, 0, 0), (0, 0, 1))
    for i in range(1, PATTERN_CIRCULAR_2_COUNT):
        add(cut_extrude_6.rotate(pattern_circular_2_axis, i * 360 / PATTERN_CIRCULAR_2_COUNT), mode=Mode.SUBTRACT)


solid = part.part
